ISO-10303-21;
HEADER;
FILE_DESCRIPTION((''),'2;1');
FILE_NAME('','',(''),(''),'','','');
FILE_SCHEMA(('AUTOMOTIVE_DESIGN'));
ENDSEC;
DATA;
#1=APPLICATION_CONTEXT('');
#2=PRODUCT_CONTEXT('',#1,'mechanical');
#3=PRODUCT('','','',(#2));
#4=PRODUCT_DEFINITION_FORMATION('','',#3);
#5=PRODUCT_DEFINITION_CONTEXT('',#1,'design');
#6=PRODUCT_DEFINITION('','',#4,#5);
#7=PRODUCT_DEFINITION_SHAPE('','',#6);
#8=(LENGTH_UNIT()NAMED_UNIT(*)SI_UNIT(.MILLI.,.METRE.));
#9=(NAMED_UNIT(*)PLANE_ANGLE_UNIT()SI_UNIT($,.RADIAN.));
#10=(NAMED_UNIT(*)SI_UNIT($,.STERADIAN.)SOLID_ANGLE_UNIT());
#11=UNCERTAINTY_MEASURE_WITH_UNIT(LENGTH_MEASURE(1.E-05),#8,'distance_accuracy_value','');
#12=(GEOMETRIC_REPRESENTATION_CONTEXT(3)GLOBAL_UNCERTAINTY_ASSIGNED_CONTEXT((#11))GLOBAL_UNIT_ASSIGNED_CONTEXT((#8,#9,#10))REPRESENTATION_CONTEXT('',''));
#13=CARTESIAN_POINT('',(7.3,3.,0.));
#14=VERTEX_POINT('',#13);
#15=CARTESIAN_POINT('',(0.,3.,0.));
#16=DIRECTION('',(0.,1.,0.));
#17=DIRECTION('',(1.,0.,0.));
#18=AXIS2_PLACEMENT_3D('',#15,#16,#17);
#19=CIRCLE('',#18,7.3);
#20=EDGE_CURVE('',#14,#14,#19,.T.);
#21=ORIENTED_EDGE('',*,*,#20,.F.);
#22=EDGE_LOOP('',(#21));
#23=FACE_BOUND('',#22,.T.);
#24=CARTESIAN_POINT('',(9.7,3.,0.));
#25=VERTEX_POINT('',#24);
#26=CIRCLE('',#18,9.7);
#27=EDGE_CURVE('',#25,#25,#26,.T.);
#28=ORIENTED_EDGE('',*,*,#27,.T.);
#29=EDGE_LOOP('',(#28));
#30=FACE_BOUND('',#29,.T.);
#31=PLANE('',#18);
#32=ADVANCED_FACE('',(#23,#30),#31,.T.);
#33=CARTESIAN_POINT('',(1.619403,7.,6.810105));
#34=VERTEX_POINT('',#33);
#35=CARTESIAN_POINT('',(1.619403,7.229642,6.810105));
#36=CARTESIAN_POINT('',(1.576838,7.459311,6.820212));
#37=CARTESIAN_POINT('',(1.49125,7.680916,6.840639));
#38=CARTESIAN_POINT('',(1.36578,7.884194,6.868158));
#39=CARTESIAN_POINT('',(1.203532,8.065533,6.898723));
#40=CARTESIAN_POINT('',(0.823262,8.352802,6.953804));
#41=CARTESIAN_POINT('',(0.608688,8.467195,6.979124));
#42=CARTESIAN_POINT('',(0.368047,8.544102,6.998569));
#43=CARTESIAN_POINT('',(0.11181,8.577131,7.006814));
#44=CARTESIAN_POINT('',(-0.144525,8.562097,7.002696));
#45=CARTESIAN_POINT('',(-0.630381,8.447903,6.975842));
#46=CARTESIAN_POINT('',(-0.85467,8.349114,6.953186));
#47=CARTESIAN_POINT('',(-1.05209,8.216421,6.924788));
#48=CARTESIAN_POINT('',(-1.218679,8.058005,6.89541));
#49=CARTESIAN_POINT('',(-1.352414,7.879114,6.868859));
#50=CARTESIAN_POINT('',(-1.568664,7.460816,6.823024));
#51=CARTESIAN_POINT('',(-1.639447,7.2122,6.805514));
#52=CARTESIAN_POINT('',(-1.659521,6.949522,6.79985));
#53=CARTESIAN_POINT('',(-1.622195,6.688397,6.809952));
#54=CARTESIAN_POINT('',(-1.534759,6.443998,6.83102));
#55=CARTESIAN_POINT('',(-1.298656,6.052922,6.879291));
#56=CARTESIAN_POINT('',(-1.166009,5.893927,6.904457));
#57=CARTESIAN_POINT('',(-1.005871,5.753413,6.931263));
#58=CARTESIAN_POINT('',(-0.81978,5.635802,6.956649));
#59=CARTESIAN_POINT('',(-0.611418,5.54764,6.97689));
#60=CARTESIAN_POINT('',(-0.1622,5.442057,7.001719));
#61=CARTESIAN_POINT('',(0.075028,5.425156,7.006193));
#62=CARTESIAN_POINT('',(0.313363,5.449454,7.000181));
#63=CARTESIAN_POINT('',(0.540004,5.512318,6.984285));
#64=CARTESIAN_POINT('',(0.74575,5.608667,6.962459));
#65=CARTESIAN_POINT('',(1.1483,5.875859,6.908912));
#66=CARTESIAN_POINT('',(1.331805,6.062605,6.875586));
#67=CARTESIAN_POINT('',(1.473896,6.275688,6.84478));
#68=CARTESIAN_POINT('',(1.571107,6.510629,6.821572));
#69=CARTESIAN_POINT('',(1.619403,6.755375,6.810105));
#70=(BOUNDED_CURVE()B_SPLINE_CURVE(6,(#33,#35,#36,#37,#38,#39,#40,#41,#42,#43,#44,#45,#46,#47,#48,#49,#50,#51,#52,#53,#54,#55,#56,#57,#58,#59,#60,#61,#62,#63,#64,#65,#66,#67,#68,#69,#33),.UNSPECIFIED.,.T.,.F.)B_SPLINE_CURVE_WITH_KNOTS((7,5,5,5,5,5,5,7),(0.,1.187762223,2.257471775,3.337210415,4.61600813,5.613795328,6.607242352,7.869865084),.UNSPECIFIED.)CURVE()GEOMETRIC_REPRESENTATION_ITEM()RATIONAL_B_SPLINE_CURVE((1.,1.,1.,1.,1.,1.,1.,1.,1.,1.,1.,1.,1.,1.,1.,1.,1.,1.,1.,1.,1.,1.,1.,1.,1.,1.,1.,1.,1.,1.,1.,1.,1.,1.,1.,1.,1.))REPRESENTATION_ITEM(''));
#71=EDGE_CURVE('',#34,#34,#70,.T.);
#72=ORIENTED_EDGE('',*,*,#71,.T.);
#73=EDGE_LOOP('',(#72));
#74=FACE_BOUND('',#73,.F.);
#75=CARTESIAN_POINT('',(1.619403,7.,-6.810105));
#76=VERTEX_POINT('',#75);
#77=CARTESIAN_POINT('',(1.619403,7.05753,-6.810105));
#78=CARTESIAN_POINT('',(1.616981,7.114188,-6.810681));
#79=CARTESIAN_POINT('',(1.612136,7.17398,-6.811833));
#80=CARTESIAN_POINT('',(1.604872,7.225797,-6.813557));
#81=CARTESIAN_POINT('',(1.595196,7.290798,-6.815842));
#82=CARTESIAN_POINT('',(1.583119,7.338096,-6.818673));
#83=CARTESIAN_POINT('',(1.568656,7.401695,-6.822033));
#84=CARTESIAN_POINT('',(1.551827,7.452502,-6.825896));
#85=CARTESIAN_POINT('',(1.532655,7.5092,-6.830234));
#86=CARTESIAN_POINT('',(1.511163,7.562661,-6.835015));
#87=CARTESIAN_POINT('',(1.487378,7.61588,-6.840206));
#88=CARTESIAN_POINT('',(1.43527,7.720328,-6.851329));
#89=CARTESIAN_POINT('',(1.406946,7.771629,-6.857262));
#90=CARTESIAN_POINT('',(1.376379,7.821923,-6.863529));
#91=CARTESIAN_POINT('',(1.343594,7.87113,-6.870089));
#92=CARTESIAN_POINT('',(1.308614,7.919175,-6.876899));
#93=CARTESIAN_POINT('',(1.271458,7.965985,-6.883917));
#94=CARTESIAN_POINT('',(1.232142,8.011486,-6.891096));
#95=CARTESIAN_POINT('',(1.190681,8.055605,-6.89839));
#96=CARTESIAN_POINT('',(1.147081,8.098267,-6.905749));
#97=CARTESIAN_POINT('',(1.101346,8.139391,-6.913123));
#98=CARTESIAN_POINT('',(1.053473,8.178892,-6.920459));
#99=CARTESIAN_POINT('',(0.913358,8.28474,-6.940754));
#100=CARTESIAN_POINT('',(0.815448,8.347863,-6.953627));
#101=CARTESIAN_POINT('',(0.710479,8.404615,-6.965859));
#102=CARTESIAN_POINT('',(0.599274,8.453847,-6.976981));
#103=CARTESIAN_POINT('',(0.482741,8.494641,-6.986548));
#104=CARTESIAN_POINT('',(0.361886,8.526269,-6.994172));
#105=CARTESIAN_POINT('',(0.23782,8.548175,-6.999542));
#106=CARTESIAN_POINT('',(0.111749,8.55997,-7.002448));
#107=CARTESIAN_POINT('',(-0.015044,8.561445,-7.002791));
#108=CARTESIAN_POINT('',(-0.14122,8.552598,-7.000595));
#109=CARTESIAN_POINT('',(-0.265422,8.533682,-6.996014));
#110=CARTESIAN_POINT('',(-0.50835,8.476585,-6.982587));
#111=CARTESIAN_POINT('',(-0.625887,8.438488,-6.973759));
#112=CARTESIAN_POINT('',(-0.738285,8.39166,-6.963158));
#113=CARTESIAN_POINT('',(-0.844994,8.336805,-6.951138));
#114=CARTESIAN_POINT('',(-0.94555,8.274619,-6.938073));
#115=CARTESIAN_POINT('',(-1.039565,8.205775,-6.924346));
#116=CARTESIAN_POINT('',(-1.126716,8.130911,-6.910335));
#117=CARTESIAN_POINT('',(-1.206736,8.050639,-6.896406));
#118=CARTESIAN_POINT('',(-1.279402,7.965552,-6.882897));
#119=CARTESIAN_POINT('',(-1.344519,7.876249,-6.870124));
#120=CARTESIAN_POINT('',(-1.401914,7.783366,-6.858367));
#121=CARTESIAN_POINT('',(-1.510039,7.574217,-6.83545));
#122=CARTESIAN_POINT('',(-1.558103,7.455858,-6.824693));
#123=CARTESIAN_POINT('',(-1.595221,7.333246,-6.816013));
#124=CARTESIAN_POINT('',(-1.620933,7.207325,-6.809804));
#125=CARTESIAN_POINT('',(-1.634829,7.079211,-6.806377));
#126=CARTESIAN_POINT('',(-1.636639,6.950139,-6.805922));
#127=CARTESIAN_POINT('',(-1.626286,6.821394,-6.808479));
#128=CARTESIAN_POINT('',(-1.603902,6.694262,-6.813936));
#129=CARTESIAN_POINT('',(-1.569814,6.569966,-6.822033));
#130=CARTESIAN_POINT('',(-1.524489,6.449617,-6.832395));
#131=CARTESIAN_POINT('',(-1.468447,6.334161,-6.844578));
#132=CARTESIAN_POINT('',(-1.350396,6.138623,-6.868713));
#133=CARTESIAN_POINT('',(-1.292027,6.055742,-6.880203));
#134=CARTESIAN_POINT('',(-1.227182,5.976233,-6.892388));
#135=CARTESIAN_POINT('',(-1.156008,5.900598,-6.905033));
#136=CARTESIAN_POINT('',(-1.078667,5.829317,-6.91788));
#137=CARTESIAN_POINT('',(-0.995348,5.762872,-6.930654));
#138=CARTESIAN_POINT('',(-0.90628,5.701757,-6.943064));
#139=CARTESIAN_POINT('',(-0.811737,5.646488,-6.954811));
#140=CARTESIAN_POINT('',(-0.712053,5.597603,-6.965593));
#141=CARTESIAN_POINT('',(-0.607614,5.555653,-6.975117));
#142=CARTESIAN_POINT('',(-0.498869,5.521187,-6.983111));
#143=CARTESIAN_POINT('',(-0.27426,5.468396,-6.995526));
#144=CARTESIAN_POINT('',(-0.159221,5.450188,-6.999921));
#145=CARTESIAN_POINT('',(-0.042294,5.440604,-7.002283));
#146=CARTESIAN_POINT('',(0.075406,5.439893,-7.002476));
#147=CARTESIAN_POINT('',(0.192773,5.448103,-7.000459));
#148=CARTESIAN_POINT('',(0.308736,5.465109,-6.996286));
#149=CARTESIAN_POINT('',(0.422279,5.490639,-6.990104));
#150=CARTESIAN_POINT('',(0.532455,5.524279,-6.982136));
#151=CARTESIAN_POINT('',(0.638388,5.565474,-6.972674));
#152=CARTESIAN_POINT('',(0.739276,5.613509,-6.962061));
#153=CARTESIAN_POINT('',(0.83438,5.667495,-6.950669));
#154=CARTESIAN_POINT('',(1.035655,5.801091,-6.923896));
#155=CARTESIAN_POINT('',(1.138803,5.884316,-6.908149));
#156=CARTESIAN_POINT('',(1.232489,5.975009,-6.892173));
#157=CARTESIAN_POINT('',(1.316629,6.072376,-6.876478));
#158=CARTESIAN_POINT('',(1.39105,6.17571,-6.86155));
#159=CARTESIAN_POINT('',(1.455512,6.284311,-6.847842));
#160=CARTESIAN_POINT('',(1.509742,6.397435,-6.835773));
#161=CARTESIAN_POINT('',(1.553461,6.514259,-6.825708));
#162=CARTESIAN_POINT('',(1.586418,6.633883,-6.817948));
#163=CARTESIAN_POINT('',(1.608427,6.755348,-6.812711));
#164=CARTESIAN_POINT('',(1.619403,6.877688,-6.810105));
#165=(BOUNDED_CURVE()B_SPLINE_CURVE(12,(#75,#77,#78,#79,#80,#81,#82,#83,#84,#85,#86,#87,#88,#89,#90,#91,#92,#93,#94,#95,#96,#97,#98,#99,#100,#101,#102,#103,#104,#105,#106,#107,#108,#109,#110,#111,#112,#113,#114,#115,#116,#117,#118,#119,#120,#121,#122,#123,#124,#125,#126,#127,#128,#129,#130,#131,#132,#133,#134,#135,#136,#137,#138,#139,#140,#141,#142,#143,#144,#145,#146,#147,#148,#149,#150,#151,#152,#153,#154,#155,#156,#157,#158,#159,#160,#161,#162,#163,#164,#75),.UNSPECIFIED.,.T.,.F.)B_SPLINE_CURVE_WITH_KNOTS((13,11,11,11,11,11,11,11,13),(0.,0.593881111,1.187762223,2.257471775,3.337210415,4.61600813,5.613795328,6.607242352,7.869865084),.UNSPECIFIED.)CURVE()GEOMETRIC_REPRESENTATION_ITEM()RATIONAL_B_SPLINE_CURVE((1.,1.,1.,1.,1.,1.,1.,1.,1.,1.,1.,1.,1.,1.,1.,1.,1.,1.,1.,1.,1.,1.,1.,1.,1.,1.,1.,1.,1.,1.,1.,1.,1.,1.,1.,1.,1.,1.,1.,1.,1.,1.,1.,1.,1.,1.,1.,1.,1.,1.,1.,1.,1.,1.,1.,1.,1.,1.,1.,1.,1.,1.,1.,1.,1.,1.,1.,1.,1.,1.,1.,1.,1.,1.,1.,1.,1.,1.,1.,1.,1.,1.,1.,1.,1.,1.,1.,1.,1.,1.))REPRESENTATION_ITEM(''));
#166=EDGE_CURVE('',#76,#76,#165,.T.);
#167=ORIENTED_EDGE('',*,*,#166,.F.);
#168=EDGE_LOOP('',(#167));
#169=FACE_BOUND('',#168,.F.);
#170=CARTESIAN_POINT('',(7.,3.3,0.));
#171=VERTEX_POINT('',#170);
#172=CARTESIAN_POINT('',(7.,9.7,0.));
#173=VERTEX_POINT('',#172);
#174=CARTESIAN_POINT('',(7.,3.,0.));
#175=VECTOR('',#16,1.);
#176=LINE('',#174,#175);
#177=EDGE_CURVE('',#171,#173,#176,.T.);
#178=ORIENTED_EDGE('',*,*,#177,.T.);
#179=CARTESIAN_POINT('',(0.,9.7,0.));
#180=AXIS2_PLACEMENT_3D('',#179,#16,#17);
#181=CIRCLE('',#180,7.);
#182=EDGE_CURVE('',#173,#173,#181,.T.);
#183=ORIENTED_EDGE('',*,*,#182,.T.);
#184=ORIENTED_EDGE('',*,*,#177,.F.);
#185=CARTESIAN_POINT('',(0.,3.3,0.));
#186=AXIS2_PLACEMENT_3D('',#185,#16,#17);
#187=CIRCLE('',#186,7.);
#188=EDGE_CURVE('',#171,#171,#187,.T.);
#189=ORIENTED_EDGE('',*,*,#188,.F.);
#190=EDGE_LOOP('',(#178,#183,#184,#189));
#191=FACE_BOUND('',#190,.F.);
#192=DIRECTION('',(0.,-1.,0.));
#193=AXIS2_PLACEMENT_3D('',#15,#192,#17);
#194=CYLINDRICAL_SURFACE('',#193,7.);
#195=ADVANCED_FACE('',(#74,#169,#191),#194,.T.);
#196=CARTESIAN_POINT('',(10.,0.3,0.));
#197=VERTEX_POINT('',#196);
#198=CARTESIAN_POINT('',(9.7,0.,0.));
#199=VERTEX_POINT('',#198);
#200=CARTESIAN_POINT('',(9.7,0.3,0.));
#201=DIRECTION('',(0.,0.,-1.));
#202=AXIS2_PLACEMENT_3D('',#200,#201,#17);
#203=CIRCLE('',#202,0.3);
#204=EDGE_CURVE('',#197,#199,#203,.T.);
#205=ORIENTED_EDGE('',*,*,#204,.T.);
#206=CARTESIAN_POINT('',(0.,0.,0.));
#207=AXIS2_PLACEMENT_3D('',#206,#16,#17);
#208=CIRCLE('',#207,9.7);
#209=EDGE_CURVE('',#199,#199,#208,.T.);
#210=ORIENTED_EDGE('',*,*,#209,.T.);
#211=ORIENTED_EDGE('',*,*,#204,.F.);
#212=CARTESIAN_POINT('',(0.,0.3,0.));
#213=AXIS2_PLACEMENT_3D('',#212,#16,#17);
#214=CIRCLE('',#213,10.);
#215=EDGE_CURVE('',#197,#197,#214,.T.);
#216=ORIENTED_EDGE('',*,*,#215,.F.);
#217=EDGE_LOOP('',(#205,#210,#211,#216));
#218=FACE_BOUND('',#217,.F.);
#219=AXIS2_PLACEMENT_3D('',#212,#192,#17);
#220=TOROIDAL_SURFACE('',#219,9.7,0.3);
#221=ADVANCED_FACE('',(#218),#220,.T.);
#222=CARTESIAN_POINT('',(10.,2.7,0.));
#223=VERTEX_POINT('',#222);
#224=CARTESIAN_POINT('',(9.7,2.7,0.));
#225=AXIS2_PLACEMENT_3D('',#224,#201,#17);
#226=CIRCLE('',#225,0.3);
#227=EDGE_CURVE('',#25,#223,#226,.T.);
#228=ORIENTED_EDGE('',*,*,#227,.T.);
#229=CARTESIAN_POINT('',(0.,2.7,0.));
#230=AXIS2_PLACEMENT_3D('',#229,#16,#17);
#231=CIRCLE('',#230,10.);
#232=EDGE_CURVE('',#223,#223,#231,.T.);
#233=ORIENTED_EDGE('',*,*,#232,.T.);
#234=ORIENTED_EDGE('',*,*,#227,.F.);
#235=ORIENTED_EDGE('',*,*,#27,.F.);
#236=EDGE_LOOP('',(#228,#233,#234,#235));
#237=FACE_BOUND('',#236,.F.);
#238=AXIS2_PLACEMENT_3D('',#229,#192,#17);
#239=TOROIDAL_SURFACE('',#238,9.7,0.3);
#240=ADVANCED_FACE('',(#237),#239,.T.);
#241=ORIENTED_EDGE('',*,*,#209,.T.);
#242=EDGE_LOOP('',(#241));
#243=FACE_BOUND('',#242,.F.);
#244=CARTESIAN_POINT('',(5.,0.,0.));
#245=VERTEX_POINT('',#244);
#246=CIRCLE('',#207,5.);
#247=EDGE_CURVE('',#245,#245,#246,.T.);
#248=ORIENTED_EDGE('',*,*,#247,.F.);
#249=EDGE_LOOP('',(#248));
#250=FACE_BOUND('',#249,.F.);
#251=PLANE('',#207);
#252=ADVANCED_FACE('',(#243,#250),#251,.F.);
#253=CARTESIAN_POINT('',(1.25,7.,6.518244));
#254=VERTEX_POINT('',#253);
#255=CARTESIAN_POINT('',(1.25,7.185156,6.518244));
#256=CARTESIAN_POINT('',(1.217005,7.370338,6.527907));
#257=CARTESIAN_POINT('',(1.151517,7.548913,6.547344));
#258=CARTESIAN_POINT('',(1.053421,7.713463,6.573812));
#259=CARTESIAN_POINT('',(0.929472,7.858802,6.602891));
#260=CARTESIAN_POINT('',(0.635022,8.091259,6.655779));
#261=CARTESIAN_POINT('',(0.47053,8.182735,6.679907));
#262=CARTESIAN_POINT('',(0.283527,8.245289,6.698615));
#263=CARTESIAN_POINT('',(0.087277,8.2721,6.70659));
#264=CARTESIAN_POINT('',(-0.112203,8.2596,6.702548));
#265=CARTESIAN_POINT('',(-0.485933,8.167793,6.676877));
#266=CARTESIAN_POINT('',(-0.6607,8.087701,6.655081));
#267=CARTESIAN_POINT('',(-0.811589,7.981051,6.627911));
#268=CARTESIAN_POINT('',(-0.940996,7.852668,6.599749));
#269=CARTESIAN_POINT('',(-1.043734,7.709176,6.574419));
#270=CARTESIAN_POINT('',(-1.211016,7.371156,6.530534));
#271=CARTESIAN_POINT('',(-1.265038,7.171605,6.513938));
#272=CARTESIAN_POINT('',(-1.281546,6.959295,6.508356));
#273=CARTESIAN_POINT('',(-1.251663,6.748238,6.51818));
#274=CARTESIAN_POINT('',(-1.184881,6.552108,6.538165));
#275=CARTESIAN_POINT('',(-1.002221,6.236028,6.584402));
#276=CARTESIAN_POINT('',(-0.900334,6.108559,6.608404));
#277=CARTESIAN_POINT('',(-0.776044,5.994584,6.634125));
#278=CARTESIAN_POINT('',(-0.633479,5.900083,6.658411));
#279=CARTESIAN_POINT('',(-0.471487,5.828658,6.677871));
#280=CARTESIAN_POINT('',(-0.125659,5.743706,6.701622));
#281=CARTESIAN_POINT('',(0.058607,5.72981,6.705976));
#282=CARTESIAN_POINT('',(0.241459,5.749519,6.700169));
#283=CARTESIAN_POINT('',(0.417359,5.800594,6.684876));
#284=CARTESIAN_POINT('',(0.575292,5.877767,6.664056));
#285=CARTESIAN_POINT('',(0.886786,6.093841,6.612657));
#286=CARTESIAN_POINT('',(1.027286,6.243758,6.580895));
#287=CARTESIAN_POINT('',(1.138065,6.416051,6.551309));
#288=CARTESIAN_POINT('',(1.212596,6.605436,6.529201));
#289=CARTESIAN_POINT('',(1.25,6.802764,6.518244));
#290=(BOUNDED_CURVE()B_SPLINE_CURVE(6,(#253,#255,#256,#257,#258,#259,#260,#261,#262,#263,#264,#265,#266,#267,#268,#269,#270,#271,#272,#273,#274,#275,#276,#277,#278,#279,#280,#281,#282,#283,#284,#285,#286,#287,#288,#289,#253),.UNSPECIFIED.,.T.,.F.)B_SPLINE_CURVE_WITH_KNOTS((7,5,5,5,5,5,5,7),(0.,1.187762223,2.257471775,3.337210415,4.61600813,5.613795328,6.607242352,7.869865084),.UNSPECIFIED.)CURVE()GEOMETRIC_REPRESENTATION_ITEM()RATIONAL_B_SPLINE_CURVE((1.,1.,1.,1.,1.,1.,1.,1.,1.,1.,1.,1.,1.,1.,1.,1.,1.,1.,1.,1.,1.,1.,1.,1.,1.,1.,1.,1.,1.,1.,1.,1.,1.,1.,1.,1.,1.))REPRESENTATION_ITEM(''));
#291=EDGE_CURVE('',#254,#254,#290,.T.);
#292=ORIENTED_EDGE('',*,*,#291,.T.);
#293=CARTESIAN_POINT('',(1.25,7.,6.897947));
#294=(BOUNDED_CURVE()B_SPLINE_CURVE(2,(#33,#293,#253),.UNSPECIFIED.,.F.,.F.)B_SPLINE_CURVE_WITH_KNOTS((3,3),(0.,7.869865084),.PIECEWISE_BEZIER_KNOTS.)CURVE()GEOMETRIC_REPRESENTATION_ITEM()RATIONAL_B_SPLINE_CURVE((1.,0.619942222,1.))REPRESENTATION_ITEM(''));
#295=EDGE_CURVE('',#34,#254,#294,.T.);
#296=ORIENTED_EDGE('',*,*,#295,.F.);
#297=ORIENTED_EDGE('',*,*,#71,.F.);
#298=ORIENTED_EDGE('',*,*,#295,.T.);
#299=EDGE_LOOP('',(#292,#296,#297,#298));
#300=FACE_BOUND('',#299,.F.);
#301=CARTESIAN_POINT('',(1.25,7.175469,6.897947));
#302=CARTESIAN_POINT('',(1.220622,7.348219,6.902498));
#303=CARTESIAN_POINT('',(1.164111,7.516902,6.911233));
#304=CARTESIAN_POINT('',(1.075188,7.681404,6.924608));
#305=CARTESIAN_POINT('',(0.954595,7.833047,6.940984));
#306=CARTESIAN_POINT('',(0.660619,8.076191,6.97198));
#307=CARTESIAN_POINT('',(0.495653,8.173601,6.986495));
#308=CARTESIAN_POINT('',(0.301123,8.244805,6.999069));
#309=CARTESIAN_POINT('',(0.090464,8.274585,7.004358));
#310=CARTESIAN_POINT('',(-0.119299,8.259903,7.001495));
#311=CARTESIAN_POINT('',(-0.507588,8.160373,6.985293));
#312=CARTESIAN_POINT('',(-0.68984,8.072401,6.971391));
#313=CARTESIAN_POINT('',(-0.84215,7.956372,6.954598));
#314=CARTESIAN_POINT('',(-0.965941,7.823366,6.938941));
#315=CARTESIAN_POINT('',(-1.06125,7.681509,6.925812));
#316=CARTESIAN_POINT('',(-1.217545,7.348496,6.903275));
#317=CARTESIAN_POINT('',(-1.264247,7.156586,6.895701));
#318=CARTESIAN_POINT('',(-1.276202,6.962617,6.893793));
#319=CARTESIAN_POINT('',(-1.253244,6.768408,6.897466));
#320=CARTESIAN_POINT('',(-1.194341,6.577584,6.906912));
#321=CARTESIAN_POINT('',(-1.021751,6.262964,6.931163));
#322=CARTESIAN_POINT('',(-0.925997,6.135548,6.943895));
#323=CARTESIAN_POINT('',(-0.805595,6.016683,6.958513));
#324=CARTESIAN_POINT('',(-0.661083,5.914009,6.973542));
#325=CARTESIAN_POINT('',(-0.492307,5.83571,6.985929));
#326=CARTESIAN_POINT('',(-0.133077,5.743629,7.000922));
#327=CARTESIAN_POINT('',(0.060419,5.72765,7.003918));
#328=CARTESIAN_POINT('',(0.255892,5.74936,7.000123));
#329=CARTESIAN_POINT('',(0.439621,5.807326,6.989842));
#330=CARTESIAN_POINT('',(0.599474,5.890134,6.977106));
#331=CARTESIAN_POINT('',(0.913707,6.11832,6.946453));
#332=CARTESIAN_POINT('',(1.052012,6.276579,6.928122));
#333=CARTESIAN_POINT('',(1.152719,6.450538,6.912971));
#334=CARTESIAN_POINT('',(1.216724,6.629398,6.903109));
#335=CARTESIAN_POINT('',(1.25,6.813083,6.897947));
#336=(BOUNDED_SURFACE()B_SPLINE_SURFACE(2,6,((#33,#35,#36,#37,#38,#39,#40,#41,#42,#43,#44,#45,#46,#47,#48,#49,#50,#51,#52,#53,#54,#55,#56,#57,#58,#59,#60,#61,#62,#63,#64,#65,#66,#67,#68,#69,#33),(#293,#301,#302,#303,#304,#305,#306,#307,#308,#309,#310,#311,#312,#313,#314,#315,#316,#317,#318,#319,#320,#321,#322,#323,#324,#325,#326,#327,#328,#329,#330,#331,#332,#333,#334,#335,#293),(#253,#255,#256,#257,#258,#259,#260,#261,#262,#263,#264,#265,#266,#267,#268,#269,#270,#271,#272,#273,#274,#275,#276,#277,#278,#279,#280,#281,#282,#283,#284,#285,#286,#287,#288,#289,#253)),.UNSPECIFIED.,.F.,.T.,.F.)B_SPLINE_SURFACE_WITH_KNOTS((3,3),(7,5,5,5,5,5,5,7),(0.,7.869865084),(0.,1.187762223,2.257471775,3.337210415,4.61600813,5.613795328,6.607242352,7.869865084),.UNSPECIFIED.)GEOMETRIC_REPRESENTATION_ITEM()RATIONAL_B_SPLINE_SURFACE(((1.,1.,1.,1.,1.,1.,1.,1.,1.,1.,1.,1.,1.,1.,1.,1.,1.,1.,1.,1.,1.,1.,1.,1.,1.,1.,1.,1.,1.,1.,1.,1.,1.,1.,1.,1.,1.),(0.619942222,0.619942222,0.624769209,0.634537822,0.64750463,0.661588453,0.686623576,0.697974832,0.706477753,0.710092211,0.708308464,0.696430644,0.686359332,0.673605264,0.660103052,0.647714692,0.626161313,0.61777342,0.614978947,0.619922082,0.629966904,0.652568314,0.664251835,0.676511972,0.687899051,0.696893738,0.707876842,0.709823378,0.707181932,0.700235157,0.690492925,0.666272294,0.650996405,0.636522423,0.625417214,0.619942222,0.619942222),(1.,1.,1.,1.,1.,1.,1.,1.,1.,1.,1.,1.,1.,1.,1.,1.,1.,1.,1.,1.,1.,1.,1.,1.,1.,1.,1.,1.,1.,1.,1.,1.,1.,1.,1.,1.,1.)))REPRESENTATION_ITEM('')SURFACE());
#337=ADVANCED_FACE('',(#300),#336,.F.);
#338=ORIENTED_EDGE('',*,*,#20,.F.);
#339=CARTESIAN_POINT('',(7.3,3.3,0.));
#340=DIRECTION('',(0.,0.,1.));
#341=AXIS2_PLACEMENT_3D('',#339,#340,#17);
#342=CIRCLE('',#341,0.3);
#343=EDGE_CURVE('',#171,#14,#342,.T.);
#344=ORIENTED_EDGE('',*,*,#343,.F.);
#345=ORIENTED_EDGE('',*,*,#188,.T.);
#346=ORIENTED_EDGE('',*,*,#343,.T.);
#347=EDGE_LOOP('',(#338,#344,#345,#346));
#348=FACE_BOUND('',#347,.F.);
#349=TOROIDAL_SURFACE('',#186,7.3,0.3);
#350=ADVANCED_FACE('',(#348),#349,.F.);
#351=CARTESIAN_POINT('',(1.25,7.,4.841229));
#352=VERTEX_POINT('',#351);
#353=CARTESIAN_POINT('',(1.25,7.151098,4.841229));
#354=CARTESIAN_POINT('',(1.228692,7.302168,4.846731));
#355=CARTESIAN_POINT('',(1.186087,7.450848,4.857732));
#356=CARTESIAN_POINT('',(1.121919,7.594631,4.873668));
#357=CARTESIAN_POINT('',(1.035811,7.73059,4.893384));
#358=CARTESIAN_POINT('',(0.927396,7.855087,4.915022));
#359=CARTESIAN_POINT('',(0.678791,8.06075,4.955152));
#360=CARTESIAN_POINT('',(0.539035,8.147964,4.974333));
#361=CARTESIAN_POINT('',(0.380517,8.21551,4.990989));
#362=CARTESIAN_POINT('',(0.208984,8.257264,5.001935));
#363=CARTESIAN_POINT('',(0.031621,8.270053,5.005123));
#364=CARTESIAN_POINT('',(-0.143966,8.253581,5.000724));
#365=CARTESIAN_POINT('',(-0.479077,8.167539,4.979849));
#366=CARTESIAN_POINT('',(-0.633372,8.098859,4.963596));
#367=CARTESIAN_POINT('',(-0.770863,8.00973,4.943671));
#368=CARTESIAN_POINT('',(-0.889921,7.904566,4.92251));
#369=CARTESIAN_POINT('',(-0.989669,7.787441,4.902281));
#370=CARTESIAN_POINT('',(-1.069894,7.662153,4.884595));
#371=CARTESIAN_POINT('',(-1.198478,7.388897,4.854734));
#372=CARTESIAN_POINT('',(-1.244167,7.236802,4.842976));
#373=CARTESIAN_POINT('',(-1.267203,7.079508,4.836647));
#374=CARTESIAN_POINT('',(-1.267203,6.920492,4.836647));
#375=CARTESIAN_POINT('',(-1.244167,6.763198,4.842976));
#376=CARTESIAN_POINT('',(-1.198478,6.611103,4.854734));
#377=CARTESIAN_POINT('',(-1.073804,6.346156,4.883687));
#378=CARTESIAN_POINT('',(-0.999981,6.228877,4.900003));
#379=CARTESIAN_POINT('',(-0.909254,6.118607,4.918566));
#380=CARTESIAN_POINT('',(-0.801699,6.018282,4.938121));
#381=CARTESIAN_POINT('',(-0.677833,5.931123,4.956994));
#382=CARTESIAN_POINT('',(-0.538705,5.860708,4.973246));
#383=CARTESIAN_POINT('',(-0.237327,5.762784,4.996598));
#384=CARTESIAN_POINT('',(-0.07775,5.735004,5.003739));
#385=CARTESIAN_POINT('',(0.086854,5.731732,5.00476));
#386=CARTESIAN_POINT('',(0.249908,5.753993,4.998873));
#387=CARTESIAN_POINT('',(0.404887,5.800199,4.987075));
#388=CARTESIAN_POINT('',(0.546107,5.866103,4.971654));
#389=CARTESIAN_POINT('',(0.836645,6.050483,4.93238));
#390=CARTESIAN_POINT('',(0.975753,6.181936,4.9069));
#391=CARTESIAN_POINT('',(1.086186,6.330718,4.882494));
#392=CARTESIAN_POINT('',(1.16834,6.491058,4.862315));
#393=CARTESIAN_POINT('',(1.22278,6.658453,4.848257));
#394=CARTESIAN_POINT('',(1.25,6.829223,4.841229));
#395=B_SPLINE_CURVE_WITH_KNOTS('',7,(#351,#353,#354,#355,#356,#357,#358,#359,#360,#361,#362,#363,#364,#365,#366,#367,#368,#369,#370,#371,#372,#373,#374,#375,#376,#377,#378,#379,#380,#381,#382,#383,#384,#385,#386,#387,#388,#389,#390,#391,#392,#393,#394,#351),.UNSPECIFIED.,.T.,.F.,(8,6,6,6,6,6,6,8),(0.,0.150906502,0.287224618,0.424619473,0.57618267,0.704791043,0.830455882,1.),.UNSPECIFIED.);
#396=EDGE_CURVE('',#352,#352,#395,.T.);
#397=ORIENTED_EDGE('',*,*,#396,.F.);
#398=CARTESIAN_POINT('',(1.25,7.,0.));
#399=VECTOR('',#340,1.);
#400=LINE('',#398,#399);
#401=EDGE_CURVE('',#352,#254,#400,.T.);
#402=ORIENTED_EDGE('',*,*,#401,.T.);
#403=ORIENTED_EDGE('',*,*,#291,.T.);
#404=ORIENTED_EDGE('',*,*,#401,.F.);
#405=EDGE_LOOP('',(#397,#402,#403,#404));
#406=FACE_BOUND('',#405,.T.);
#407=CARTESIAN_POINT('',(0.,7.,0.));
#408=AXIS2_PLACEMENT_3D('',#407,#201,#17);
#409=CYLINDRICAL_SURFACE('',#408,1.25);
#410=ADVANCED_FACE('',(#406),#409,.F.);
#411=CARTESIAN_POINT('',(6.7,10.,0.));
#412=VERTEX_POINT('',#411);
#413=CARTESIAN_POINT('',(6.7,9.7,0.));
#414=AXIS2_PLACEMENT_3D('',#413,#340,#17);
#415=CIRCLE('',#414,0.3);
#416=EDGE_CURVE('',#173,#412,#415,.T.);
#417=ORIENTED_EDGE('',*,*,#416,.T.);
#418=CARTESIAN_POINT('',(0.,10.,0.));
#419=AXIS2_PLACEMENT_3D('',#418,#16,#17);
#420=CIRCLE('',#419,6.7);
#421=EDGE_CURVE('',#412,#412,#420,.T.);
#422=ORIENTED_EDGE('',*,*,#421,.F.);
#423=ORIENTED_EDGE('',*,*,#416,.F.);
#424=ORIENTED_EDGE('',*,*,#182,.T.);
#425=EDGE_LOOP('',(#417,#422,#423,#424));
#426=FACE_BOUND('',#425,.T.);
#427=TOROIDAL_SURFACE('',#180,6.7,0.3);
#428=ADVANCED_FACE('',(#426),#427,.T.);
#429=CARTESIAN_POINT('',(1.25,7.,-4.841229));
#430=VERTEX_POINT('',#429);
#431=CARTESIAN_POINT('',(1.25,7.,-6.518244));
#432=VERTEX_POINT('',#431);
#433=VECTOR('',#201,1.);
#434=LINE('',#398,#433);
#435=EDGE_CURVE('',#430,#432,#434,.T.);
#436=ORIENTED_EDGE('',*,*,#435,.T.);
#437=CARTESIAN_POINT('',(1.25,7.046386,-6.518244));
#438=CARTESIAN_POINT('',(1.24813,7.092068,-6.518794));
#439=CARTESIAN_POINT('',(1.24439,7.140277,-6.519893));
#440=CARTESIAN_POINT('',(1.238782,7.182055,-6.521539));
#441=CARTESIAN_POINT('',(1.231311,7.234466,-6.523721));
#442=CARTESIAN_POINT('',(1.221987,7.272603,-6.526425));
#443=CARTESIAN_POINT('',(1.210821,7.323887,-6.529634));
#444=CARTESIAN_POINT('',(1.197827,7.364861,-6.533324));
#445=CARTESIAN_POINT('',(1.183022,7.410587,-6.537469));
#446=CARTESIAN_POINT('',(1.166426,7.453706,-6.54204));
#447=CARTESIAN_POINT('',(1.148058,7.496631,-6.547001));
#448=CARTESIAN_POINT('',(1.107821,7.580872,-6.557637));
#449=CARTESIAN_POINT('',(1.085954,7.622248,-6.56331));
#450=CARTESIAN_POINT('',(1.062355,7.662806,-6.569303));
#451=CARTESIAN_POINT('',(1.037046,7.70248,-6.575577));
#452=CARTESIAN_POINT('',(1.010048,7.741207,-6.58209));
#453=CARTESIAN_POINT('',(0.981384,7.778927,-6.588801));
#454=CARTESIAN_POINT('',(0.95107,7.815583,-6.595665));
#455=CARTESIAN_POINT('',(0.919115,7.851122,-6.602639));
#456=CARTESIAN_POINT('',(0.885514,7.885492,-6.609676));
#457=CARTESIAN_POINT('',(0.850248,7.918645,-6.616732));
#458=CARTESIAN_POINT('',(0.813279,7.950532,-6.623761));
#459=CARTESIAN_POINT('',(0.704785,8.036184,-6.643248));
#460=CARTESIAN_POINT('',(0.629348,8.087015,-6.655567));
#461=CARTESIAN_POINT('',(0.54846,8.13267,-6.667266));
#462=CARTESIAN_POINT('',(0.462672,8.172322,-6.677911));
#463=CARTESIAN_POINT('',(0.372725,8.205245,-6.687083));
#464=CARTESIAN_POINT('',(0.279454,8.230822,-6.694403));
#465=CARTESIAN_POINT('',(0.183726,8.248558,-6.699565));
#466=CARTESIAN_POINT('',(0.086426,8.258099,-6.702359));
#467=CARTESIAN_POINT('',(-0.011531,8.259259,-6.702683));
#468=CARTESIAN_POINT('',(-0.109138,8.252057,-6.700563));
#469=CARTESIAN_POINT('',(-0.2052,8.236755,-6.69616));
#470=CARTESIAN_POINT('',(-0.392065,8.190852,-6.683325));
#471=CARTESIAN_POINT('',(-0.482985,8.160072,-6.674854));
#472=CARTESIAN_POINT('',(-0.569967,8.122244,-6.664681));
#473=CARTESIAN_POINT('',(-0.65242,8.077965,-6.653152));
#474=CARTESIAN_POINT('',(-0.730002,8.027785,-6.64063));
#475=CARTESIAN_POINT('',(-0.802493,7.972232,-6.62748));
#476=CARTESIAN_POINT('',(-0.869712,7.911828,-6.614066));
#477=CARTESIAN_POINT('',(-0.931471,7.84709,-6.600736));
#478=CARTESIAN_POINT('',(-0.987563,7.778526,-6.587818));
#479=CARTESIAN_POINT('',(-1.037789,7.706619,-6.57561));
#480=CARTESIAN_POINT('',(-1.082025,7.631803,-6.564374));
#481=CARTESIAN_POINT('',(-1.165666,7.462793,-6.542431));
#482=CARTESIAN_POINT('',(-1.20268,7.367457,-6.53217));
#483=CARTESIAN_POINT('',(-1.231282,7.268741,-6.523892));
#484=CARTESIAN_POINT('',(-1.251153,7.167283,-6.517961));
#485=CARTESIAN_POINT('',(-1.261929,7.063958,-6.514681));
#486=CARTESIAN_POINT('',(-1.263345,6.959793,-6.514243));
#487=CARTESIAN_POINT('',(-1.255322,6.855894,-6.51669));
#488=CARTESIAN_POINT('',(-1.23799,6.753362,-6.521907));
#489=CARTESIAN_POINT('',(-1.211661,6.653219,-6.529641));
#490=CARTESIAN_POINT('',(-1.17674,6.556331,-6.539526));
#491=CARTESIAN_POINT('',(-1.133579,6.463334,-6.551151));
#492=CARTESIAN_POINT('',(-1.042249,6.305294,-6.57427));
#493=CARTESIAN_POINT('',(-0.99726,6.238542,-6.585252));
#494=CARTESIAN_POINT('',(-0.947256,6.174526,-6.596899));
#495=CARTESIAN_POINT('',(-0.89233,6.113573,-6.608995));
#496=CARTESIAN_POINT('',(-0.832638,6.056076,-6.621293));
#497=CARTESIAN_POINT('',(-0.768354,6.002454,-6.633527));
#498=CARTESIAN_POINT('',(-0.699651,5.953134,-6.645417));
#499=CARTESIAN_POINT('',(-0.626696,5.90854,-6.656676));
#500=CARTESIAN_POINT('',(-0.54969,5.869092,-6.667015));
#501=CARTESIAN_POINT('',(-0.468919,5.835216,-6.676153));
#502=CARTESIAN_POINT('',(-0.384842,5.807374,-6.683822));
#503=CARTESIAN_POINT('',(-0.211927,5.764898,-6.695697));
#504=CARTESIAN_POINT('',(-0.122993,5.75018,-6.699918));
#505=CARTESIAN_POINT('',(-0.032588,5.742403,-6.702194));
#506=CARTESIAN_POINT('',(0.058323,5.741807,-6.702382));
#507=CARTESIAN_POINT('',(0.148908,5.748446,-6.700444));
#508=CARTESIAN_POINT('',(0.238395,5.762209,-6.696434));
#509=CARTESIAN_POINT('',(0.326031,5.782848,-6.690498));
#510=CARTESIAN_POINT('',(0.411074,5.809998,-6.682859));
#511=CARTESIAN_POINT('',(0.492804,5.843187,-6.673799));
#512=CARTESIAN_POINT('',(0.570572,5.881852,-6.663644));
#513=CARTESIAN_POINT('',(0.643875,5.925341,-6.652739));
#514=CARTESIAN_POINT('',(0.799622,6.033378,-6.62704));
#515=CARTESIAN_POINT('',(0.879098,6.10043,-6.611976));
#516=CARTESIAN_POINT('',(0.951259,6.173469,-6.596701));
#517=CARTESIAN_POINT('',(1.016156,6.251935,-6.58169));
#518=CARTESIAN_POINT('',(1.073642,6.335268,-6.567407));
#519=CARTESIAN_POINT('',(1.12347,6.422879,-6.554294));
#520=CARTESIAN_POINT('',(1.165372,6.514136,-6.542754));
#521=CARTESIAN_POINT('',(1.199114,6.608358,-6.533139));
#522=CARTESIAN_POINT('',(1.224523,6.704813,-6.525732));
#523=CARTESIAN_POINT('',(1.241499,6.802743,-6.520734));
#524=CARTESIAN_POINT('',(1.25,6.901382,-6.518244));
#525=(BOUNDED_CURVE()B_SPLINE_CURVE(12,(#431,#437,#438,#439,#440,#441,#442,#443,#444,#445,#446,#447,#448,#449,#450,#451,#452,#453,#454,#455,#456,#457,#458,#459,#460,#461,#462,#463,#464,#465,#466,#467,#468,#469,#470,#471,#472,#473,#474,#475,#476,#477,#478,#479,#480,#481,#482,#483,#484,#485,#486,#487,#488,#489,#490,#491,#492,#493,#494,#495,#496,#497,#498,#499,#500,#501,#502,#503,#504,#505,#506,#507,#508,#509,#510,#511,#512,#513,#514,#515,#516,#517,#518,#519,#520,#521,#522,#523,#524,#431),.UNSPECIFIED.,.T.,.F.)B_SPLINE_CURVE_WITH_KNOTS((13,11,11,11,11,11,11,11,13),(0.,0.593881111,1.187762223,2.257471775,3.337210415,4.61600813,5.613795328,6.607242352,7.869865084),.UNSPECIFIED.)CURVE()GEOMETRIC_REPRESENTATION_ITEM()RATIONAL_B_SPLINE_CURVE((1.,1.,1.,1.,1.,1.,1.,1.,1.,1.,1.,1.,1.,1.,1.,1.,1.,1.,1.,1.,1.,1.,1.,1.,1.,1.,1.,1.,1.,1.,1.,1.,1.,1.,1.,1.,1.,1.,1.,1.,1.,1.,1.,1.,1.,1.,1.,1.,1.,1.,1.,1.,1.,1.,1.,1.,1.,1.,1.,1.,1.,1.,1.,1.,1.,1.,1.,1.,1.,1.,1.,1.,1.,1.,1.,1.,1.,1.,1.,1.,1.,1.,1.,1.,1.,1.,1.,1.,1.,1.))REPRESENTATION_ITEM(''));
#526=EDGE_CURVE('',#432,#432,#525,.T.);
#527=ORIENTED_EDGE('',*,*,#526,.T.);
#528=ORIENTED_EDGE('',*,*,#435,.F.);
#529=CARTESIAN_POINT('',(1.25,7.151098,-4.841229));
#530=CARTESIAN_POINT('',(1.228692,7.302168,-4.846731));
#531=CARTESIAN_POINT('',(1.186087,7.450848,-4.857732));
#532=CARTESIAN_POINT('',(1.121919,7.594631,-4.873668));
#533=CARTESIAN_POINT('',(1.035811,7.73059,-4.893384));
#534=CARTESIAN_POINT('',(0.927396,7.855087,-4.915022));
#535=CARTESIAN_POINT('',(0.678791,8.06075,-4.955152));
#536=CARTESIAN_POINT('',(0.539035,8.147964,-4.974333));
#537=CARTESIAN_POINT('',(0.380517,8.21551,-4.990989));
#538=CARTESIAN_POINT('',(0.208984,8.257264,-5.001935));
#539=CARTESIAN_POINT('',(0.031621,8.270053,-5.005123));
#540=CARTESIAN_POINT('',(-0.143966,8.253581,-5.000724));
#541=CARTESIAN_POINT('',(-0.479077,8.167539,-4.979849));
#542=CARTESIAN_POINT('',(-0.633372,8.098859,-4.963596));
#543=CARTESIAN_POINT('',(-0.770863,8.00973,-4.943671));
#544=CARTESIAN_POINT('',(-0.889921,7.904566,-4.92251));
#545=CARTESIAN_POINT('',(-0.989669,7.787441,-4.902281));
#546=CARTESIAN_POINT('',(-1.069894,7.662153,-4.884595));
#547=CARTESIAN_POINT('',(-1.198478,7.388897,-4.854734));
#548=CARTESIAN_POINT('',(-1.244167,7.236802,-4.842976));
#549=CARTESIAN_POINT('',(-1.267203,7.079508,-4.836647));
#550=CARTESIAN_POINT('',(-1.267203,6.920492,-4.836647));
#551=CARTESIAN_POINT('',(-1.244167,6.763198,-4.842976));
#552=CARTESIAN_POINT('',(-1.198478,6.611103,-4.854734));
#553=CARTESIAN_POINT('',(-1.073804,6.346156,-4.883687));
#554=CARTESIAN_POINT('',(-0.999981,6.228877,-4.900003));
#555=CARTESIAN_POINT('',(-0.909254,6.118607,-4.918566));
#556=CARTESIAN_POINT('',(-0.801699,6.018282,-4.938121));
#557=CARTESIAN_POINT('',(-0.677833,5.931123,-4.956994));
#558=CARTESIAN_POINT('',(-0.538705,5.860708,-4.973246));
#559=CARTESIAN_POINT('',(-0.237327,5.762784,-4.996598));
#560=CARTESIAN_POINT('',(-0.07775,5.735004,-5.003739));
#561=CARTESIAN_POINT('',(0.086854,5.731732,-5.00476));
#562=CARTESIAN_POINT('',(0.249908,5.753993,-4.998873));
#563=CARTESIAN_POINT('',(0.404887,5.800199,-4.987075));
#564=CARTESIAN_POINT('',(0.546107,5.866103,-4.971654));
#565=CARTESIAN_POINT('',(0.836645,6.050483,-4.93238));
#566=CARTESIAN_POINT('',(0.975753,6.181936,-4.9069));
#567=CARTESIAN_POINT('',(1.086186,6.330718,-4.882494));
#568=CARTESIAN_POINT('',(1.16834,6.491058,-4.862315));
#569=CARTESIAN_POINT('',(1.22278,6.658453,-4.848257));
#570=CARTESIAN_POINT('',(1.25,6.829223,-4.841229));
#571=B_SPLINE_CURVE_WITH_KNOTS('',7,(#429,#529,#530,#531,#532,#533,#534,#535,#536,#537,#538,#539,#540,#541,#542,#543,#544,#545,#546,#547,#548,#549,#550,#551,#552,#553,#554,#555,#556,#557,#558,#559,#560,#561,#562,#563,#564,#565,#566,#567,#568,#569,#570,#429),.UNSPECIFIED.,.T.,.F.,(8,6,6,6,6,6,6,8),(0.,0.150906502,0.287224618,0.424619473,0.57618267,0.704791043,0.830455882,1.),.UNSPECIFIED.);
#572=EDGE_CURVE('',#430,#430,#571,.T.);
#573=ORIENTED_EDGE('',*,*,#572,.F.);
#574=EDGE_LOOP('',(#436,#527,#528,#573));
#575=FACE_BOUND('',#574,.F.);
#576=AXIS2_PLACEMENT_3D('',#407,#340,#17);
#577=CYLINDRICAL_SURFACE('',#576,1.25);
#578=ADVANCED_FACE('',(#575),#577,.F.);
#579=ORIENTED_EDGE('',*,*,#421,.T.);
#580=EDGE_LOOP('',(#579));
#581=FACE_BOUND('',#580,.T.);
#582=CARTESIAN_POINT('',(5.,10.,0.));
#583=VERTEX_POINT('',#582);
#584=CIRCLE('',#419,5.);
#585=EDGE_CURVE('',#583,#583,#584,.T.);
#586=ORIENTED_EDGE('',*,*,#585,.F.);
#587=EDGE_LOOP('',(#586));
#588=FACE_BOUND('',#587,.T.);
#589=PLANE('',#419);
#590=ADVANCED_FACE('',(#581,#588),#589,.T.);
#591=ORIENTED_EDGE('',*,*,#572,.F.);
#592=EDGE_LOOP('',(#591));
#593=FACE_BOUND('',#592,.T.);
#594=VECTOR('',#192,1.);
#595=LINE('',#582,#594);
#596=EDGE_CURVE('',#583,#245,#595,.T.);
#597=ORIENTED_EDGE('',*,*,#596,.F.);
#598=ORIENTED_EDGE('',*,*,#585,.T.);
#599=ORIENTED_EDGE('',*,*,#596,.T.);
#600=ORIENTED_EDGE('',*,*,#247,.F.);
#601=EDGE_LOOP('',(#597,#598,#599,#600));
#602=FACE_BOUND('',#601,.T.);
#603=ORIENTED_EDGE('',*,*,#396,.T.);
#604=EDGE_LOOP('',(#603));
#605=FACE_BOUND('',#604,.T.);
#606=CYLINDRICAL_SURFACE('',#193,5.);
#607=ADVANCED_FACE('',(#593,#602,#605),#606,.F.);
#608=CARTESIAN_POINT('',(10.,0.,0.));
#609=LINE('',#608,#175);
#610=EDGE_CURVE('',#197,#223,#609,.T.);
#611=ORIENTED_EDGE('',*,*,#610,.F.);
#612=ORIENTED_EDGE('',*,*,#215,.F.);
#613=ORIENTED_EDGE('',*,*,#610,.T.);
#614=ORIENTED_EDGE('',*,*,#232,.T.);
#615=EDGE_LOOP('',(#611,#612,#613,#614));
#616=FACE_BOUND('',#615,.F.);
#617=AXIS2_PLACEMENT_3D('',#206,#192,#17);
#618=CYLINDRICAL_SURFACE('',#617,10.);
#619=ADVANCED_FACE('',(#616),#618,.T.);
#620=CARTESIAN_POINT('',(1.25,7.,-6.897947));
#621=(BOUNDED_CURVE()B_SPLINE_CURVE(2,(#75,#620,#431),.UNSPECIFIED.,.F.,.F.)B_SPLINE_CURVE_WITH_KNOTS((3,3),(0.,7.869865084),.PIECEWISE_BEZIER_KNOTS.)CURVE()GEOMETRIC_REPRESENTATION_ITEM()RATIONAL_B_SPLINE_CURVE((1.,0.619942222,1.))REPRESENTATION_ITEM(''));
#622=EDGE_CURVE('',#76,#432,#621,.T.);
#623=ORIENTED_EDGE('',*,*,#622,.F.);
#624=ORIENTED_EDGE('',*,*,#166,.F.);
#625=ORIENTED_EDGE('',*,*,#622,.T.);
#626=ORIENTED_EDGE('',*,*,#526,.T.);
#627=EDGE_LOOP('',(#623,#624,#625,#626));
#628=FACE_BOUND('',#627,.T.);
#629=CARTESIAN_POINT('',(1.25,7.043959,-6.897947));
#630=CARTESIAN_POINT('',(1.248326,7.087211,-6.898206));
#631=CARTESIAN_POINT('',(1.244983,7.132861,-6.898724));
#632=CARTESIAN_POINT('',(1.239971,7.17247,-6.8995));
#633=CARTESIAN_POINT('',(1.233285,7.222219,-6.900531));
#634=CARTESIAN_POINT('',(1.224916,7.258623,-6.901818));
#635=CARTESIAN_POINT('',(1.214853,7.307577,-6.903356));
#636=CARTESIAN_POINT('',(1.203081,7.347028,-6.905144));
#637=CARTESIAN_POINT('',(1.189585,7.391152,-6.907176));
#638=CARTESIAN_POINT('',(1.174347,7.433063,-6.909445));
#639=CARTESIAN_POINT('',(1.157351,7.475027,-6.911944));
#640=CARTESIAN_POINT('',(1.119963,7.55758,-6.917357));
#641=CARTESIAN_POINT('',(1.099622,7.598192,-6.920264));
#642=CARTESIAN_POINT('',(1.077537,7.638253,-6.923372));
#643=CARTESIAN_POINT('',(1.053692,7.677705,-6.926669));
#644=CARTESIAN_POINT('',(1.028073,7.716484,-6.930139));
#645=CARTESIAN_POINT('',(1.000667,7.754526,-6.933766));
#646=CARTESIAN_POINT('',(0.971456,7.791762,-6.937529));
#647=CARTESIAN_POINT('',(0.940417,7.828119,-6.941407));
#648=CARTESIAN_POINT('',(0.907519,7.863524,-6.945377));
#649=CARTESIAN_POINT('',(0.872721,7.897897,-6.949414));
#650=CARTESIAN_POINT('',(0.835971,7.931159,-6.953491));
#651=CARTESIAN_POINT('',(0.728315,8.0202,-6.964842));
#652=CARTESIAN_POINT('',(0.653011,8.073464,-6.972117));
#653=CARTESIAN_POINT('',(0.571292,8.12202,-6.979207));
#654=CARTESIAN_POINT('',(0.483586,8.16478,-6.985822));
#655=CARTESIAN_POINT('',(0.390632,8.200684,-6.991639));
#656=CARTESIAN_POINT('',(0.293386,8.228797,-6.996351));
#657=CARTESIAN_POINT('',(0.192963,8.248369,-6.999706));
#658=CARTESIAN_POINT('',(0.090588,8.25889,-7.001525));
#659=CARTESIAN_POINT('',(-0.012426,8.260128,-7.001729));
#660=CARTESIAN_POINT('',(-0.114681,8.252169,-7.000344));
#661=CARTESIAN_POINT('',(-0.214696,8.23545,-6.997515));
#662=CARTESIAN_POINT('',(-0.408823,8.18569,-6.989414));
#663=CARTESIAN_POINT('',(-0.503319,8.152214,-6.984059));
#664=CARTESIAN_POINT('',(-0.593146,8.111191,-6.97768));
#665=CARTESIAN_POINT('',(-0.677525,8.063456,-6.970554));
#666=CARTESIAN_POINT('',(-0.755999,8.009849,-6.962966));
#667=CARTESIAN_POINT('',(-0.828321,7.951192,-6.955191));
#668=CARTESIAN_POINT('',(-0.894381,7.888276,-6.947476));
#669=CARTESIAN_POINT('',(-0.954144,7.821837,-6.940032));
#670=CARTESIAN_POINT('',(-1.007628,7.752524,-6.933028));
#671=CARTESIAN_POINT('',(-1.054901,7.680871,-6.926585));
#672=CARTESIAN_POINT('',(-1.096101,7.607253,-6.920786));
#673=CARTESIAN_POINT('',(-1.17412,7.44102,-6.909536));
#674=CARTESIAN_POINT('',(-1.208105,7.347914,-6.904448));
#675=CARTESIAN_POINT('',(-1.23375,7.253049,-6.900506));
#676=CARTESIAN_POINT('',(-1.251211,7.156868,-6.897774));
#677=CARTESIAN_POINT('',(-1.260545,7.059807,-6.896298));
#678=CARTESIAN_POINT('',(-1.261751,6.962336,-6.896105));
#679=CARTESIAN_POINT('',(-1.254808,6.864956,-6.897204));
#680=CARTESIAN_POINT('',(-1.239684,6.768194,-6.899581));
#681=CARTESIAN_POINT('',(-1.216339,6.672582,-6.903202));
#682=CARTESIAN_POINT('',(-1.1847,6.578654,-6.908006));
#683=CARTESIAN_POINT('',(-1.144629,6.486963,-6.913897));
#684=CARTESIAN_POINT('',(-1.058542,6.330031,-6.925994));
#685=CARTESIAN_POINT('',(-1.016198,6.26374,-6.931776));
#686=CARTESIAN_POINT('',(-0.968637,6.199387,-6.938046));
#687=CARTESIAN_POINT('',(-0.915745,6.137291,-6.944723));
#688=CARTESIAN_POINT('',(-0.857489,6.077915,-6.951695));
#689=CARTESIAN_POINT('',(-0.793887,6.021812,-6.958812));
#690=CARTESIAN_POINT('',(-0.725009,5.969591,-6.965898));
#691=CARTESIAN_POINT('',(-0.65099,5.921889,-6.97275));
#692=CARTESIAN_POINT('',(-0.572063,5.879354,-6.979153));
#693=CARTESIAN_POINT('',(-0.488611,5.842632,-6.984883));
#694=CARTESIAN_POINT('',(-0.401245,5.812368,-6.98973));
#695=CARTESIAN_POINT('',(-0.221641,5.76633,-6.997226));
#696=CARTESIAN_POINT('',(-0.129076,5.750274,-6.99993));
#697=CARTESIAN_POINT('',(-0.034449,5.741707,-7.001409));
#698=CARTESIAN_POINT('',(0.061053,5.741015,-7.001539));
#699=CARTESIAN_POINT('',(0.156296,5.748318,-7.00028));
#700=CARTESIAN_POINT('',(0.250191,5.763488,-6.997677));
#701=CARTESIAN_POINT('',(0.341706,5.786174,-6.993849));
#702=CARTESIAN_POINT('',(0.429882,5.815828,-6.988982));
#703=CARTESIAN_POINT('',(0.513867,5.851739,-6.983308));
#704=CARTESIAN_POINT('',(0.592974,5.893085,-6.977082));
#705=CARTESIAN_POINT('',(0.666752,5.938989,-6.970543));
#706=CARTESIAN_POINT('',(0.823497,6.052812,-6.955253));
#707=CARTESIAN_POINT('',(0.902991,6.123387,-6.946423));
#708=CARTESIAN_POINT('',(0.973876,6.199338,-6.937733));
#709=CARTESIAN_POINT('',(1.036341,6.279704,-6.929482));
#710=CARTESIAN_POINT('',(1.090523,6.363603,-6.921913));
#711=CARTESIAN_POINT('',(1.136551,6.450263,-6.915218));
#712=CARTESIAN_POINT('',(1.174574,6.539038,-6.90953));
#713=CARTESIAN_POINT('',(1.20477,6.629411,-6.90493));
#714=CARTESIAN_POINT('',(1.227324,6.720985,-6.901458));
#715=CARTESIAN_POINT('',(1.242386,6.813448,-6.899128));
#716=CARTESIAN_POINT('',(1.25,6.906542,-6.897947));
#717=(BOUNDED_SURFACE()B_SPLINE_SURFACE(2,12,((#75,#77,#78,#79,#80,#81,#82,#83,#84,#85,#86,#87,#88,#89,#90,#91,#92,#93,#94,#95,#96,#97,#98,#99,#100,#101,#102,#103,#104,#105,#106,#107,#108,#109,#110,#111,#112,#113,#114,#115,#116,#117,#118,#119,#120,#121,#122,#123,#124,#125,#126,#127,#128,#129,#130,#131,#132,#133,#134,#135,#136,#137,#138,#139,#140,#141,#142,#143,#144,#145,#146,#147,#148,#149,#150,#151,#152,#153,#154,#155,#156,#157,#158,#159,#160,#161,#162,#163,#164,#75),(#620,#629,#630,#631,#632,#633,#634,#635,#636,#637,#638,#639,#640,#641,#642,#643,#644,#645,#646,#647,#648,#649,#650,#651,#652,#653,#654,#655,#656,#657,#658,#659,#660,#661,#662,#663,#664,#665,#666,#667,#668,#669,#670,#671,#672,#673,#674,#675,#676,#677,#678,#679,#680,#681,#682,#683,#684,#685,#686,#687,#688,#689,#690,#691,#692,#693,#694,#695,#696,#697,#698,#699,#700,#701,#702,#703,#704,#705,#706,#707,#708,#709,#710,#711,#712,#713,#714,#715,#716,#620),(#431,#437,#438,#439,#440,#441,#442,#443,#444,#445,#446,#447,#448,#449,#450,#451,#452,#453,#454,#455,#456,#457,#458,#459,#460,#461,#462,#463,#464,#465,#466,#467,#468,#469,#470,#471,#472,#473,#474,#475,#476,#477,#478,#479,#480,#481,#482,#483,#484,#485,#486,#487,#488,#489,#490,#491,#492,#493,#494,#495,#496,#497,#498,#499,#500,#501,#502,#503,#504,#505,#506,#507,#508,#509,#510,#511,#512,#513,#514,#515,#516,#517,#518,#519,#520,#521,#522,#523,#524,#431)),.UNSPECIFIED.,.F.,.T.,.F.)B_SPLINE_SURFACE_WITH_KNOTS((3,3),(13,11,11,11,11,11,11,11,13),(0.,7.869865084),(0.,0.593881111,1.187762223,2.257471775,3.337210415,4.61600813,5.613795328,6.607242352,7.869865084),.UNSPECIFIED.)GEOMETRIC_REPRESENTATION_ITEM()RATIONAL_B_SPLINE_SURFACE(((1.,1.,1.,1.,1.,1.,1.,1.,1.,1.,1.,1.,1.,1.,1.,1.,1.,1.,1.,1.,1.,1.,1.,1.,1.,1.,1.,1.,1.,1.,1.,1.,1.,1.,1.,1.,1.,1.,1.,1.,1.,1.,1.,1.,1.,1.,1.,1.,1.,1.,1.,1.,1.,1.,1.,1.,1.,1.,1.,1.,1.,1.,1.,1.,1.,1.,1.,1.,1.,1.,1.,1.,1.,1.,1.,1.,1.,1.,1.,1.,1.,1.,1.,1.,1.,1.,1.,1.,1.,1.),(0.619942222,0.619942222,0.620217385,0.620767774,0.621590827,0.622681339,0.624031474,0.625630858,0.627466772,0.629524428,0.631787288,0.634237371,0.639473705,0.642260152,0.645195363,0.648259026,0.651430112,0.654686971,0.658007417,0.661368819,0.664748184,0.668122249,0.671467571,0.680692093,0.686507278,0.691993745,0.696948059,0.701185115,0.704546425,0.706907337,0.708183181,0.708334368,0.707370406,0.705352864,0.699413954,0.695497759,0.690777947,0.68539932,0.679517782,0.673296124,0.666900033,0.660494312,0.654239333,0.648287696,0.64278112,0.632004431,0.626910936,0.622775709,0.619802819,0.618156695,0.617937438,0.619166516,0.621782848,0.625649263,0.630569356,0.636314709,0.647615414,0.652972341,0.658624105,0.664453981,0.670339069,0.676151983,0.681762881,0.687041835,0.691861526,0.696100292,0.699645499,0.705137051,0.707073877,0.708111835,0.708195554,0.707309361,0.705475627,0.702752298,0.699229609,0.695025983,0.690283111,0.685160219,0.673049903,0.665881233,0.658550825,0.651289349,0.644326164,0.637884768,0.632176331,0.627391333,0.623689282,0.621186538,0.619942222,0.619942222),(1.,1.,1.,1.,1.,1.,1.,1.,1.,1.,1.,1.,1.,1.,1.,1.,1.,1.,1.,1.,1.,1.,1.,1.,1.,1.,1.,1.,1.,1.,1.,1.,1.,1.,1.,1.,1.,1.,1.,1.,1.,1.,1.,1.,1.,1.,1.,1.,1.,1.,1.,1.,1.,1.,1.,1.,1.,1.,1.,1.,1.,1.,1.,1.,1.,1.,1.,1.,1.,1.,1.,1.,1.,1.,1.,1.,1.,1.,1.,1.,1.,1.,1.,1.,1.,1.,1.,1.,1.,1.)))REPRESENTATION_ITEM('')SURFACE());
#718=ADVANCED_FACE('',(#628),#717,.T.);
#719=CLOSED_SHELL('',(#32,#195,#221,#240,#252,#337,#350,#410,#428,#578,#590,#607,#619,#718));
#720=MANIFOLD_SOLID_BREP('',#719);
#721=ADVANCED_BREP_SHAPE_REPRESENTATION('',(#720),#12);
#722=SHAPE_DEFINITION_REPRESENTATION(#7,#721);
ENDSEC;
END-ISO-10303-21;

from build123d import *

# Parameters (mm, degrees)
SKETCH1_R               = 10
SKETCH1_R_2             = 5
BOSS_EXTRUDE1_DEPTH     = 3
SKETCH2_R               = 7
SKETCH2_R_2             = 5
BOSS_EXTRUDE2_DEPTH     = 7
SKETCH3_R               = 1.25
CUT_EXTRUDE1_DEPTH      = 11
CUT_EXTRUDE1_DEPTH_BACK = 11
FILLET1_R               = 0.3


with BuildPart() as part:
    # Sketch1 → Boss-Extrude1 (new body)
    with BuildSketch(Plane(origin=(0, 0, 0), x_dir=(1, 0, 0), z_dir=(0, 1, 0))):
        Circle(SKETCH1_R)
        Circle(SKETCH1_R_2, mode=Mode.SUBTRACT)
    extrude(amount=BOSS_EXTRUDE1_DEPTH)

    # Sketch2 → Boss-Extrude2 (add)
    with BuildSketch(Plane(origin=(0, 3, 0), x_dir=(1, 0, 0), z_dir=(0, 1, 0))):
        Circle(SKETCH2_R)
        Circle(SKETCH2_R_2, mode=Mode.SUBTRACT)
    extrude(amount=BOSS_EXTRUDE2_DEPTH)

    # Sketch3 → Cut-Extrude1 (cut, two sides)
    with BuildSketch(Plane.XY) as cut_extrude1_sk:
        with Locations((0, 7)):
            Circle(SKETCH3_R)
    extrude(amount=CUT_EXTRUDE1_DEPTH, mode=Mode.SUBTRACT)
    extrude(cut_extrude1_sk.sketch, amount=-CUT_EXTRUDE1_DEPTH_BACK, mode=Mode.SUBTRACT)

    # Fillet1
    fillet1_edges = [part.edges().sort_by_distance(p)[0] for p in [
        (-7, 10, 0),
        (-7, 3, 0),
        (-1.250000002, 6.999999998, -6.887488659),
        (-1.250000002, 6.999999998, 6.887488659),
        (-10, 0, 0),
        (-10, 3, 0),
    ]]
    fillet(fillet1_edges, radius=FILLET1_R)


solid = part.part
